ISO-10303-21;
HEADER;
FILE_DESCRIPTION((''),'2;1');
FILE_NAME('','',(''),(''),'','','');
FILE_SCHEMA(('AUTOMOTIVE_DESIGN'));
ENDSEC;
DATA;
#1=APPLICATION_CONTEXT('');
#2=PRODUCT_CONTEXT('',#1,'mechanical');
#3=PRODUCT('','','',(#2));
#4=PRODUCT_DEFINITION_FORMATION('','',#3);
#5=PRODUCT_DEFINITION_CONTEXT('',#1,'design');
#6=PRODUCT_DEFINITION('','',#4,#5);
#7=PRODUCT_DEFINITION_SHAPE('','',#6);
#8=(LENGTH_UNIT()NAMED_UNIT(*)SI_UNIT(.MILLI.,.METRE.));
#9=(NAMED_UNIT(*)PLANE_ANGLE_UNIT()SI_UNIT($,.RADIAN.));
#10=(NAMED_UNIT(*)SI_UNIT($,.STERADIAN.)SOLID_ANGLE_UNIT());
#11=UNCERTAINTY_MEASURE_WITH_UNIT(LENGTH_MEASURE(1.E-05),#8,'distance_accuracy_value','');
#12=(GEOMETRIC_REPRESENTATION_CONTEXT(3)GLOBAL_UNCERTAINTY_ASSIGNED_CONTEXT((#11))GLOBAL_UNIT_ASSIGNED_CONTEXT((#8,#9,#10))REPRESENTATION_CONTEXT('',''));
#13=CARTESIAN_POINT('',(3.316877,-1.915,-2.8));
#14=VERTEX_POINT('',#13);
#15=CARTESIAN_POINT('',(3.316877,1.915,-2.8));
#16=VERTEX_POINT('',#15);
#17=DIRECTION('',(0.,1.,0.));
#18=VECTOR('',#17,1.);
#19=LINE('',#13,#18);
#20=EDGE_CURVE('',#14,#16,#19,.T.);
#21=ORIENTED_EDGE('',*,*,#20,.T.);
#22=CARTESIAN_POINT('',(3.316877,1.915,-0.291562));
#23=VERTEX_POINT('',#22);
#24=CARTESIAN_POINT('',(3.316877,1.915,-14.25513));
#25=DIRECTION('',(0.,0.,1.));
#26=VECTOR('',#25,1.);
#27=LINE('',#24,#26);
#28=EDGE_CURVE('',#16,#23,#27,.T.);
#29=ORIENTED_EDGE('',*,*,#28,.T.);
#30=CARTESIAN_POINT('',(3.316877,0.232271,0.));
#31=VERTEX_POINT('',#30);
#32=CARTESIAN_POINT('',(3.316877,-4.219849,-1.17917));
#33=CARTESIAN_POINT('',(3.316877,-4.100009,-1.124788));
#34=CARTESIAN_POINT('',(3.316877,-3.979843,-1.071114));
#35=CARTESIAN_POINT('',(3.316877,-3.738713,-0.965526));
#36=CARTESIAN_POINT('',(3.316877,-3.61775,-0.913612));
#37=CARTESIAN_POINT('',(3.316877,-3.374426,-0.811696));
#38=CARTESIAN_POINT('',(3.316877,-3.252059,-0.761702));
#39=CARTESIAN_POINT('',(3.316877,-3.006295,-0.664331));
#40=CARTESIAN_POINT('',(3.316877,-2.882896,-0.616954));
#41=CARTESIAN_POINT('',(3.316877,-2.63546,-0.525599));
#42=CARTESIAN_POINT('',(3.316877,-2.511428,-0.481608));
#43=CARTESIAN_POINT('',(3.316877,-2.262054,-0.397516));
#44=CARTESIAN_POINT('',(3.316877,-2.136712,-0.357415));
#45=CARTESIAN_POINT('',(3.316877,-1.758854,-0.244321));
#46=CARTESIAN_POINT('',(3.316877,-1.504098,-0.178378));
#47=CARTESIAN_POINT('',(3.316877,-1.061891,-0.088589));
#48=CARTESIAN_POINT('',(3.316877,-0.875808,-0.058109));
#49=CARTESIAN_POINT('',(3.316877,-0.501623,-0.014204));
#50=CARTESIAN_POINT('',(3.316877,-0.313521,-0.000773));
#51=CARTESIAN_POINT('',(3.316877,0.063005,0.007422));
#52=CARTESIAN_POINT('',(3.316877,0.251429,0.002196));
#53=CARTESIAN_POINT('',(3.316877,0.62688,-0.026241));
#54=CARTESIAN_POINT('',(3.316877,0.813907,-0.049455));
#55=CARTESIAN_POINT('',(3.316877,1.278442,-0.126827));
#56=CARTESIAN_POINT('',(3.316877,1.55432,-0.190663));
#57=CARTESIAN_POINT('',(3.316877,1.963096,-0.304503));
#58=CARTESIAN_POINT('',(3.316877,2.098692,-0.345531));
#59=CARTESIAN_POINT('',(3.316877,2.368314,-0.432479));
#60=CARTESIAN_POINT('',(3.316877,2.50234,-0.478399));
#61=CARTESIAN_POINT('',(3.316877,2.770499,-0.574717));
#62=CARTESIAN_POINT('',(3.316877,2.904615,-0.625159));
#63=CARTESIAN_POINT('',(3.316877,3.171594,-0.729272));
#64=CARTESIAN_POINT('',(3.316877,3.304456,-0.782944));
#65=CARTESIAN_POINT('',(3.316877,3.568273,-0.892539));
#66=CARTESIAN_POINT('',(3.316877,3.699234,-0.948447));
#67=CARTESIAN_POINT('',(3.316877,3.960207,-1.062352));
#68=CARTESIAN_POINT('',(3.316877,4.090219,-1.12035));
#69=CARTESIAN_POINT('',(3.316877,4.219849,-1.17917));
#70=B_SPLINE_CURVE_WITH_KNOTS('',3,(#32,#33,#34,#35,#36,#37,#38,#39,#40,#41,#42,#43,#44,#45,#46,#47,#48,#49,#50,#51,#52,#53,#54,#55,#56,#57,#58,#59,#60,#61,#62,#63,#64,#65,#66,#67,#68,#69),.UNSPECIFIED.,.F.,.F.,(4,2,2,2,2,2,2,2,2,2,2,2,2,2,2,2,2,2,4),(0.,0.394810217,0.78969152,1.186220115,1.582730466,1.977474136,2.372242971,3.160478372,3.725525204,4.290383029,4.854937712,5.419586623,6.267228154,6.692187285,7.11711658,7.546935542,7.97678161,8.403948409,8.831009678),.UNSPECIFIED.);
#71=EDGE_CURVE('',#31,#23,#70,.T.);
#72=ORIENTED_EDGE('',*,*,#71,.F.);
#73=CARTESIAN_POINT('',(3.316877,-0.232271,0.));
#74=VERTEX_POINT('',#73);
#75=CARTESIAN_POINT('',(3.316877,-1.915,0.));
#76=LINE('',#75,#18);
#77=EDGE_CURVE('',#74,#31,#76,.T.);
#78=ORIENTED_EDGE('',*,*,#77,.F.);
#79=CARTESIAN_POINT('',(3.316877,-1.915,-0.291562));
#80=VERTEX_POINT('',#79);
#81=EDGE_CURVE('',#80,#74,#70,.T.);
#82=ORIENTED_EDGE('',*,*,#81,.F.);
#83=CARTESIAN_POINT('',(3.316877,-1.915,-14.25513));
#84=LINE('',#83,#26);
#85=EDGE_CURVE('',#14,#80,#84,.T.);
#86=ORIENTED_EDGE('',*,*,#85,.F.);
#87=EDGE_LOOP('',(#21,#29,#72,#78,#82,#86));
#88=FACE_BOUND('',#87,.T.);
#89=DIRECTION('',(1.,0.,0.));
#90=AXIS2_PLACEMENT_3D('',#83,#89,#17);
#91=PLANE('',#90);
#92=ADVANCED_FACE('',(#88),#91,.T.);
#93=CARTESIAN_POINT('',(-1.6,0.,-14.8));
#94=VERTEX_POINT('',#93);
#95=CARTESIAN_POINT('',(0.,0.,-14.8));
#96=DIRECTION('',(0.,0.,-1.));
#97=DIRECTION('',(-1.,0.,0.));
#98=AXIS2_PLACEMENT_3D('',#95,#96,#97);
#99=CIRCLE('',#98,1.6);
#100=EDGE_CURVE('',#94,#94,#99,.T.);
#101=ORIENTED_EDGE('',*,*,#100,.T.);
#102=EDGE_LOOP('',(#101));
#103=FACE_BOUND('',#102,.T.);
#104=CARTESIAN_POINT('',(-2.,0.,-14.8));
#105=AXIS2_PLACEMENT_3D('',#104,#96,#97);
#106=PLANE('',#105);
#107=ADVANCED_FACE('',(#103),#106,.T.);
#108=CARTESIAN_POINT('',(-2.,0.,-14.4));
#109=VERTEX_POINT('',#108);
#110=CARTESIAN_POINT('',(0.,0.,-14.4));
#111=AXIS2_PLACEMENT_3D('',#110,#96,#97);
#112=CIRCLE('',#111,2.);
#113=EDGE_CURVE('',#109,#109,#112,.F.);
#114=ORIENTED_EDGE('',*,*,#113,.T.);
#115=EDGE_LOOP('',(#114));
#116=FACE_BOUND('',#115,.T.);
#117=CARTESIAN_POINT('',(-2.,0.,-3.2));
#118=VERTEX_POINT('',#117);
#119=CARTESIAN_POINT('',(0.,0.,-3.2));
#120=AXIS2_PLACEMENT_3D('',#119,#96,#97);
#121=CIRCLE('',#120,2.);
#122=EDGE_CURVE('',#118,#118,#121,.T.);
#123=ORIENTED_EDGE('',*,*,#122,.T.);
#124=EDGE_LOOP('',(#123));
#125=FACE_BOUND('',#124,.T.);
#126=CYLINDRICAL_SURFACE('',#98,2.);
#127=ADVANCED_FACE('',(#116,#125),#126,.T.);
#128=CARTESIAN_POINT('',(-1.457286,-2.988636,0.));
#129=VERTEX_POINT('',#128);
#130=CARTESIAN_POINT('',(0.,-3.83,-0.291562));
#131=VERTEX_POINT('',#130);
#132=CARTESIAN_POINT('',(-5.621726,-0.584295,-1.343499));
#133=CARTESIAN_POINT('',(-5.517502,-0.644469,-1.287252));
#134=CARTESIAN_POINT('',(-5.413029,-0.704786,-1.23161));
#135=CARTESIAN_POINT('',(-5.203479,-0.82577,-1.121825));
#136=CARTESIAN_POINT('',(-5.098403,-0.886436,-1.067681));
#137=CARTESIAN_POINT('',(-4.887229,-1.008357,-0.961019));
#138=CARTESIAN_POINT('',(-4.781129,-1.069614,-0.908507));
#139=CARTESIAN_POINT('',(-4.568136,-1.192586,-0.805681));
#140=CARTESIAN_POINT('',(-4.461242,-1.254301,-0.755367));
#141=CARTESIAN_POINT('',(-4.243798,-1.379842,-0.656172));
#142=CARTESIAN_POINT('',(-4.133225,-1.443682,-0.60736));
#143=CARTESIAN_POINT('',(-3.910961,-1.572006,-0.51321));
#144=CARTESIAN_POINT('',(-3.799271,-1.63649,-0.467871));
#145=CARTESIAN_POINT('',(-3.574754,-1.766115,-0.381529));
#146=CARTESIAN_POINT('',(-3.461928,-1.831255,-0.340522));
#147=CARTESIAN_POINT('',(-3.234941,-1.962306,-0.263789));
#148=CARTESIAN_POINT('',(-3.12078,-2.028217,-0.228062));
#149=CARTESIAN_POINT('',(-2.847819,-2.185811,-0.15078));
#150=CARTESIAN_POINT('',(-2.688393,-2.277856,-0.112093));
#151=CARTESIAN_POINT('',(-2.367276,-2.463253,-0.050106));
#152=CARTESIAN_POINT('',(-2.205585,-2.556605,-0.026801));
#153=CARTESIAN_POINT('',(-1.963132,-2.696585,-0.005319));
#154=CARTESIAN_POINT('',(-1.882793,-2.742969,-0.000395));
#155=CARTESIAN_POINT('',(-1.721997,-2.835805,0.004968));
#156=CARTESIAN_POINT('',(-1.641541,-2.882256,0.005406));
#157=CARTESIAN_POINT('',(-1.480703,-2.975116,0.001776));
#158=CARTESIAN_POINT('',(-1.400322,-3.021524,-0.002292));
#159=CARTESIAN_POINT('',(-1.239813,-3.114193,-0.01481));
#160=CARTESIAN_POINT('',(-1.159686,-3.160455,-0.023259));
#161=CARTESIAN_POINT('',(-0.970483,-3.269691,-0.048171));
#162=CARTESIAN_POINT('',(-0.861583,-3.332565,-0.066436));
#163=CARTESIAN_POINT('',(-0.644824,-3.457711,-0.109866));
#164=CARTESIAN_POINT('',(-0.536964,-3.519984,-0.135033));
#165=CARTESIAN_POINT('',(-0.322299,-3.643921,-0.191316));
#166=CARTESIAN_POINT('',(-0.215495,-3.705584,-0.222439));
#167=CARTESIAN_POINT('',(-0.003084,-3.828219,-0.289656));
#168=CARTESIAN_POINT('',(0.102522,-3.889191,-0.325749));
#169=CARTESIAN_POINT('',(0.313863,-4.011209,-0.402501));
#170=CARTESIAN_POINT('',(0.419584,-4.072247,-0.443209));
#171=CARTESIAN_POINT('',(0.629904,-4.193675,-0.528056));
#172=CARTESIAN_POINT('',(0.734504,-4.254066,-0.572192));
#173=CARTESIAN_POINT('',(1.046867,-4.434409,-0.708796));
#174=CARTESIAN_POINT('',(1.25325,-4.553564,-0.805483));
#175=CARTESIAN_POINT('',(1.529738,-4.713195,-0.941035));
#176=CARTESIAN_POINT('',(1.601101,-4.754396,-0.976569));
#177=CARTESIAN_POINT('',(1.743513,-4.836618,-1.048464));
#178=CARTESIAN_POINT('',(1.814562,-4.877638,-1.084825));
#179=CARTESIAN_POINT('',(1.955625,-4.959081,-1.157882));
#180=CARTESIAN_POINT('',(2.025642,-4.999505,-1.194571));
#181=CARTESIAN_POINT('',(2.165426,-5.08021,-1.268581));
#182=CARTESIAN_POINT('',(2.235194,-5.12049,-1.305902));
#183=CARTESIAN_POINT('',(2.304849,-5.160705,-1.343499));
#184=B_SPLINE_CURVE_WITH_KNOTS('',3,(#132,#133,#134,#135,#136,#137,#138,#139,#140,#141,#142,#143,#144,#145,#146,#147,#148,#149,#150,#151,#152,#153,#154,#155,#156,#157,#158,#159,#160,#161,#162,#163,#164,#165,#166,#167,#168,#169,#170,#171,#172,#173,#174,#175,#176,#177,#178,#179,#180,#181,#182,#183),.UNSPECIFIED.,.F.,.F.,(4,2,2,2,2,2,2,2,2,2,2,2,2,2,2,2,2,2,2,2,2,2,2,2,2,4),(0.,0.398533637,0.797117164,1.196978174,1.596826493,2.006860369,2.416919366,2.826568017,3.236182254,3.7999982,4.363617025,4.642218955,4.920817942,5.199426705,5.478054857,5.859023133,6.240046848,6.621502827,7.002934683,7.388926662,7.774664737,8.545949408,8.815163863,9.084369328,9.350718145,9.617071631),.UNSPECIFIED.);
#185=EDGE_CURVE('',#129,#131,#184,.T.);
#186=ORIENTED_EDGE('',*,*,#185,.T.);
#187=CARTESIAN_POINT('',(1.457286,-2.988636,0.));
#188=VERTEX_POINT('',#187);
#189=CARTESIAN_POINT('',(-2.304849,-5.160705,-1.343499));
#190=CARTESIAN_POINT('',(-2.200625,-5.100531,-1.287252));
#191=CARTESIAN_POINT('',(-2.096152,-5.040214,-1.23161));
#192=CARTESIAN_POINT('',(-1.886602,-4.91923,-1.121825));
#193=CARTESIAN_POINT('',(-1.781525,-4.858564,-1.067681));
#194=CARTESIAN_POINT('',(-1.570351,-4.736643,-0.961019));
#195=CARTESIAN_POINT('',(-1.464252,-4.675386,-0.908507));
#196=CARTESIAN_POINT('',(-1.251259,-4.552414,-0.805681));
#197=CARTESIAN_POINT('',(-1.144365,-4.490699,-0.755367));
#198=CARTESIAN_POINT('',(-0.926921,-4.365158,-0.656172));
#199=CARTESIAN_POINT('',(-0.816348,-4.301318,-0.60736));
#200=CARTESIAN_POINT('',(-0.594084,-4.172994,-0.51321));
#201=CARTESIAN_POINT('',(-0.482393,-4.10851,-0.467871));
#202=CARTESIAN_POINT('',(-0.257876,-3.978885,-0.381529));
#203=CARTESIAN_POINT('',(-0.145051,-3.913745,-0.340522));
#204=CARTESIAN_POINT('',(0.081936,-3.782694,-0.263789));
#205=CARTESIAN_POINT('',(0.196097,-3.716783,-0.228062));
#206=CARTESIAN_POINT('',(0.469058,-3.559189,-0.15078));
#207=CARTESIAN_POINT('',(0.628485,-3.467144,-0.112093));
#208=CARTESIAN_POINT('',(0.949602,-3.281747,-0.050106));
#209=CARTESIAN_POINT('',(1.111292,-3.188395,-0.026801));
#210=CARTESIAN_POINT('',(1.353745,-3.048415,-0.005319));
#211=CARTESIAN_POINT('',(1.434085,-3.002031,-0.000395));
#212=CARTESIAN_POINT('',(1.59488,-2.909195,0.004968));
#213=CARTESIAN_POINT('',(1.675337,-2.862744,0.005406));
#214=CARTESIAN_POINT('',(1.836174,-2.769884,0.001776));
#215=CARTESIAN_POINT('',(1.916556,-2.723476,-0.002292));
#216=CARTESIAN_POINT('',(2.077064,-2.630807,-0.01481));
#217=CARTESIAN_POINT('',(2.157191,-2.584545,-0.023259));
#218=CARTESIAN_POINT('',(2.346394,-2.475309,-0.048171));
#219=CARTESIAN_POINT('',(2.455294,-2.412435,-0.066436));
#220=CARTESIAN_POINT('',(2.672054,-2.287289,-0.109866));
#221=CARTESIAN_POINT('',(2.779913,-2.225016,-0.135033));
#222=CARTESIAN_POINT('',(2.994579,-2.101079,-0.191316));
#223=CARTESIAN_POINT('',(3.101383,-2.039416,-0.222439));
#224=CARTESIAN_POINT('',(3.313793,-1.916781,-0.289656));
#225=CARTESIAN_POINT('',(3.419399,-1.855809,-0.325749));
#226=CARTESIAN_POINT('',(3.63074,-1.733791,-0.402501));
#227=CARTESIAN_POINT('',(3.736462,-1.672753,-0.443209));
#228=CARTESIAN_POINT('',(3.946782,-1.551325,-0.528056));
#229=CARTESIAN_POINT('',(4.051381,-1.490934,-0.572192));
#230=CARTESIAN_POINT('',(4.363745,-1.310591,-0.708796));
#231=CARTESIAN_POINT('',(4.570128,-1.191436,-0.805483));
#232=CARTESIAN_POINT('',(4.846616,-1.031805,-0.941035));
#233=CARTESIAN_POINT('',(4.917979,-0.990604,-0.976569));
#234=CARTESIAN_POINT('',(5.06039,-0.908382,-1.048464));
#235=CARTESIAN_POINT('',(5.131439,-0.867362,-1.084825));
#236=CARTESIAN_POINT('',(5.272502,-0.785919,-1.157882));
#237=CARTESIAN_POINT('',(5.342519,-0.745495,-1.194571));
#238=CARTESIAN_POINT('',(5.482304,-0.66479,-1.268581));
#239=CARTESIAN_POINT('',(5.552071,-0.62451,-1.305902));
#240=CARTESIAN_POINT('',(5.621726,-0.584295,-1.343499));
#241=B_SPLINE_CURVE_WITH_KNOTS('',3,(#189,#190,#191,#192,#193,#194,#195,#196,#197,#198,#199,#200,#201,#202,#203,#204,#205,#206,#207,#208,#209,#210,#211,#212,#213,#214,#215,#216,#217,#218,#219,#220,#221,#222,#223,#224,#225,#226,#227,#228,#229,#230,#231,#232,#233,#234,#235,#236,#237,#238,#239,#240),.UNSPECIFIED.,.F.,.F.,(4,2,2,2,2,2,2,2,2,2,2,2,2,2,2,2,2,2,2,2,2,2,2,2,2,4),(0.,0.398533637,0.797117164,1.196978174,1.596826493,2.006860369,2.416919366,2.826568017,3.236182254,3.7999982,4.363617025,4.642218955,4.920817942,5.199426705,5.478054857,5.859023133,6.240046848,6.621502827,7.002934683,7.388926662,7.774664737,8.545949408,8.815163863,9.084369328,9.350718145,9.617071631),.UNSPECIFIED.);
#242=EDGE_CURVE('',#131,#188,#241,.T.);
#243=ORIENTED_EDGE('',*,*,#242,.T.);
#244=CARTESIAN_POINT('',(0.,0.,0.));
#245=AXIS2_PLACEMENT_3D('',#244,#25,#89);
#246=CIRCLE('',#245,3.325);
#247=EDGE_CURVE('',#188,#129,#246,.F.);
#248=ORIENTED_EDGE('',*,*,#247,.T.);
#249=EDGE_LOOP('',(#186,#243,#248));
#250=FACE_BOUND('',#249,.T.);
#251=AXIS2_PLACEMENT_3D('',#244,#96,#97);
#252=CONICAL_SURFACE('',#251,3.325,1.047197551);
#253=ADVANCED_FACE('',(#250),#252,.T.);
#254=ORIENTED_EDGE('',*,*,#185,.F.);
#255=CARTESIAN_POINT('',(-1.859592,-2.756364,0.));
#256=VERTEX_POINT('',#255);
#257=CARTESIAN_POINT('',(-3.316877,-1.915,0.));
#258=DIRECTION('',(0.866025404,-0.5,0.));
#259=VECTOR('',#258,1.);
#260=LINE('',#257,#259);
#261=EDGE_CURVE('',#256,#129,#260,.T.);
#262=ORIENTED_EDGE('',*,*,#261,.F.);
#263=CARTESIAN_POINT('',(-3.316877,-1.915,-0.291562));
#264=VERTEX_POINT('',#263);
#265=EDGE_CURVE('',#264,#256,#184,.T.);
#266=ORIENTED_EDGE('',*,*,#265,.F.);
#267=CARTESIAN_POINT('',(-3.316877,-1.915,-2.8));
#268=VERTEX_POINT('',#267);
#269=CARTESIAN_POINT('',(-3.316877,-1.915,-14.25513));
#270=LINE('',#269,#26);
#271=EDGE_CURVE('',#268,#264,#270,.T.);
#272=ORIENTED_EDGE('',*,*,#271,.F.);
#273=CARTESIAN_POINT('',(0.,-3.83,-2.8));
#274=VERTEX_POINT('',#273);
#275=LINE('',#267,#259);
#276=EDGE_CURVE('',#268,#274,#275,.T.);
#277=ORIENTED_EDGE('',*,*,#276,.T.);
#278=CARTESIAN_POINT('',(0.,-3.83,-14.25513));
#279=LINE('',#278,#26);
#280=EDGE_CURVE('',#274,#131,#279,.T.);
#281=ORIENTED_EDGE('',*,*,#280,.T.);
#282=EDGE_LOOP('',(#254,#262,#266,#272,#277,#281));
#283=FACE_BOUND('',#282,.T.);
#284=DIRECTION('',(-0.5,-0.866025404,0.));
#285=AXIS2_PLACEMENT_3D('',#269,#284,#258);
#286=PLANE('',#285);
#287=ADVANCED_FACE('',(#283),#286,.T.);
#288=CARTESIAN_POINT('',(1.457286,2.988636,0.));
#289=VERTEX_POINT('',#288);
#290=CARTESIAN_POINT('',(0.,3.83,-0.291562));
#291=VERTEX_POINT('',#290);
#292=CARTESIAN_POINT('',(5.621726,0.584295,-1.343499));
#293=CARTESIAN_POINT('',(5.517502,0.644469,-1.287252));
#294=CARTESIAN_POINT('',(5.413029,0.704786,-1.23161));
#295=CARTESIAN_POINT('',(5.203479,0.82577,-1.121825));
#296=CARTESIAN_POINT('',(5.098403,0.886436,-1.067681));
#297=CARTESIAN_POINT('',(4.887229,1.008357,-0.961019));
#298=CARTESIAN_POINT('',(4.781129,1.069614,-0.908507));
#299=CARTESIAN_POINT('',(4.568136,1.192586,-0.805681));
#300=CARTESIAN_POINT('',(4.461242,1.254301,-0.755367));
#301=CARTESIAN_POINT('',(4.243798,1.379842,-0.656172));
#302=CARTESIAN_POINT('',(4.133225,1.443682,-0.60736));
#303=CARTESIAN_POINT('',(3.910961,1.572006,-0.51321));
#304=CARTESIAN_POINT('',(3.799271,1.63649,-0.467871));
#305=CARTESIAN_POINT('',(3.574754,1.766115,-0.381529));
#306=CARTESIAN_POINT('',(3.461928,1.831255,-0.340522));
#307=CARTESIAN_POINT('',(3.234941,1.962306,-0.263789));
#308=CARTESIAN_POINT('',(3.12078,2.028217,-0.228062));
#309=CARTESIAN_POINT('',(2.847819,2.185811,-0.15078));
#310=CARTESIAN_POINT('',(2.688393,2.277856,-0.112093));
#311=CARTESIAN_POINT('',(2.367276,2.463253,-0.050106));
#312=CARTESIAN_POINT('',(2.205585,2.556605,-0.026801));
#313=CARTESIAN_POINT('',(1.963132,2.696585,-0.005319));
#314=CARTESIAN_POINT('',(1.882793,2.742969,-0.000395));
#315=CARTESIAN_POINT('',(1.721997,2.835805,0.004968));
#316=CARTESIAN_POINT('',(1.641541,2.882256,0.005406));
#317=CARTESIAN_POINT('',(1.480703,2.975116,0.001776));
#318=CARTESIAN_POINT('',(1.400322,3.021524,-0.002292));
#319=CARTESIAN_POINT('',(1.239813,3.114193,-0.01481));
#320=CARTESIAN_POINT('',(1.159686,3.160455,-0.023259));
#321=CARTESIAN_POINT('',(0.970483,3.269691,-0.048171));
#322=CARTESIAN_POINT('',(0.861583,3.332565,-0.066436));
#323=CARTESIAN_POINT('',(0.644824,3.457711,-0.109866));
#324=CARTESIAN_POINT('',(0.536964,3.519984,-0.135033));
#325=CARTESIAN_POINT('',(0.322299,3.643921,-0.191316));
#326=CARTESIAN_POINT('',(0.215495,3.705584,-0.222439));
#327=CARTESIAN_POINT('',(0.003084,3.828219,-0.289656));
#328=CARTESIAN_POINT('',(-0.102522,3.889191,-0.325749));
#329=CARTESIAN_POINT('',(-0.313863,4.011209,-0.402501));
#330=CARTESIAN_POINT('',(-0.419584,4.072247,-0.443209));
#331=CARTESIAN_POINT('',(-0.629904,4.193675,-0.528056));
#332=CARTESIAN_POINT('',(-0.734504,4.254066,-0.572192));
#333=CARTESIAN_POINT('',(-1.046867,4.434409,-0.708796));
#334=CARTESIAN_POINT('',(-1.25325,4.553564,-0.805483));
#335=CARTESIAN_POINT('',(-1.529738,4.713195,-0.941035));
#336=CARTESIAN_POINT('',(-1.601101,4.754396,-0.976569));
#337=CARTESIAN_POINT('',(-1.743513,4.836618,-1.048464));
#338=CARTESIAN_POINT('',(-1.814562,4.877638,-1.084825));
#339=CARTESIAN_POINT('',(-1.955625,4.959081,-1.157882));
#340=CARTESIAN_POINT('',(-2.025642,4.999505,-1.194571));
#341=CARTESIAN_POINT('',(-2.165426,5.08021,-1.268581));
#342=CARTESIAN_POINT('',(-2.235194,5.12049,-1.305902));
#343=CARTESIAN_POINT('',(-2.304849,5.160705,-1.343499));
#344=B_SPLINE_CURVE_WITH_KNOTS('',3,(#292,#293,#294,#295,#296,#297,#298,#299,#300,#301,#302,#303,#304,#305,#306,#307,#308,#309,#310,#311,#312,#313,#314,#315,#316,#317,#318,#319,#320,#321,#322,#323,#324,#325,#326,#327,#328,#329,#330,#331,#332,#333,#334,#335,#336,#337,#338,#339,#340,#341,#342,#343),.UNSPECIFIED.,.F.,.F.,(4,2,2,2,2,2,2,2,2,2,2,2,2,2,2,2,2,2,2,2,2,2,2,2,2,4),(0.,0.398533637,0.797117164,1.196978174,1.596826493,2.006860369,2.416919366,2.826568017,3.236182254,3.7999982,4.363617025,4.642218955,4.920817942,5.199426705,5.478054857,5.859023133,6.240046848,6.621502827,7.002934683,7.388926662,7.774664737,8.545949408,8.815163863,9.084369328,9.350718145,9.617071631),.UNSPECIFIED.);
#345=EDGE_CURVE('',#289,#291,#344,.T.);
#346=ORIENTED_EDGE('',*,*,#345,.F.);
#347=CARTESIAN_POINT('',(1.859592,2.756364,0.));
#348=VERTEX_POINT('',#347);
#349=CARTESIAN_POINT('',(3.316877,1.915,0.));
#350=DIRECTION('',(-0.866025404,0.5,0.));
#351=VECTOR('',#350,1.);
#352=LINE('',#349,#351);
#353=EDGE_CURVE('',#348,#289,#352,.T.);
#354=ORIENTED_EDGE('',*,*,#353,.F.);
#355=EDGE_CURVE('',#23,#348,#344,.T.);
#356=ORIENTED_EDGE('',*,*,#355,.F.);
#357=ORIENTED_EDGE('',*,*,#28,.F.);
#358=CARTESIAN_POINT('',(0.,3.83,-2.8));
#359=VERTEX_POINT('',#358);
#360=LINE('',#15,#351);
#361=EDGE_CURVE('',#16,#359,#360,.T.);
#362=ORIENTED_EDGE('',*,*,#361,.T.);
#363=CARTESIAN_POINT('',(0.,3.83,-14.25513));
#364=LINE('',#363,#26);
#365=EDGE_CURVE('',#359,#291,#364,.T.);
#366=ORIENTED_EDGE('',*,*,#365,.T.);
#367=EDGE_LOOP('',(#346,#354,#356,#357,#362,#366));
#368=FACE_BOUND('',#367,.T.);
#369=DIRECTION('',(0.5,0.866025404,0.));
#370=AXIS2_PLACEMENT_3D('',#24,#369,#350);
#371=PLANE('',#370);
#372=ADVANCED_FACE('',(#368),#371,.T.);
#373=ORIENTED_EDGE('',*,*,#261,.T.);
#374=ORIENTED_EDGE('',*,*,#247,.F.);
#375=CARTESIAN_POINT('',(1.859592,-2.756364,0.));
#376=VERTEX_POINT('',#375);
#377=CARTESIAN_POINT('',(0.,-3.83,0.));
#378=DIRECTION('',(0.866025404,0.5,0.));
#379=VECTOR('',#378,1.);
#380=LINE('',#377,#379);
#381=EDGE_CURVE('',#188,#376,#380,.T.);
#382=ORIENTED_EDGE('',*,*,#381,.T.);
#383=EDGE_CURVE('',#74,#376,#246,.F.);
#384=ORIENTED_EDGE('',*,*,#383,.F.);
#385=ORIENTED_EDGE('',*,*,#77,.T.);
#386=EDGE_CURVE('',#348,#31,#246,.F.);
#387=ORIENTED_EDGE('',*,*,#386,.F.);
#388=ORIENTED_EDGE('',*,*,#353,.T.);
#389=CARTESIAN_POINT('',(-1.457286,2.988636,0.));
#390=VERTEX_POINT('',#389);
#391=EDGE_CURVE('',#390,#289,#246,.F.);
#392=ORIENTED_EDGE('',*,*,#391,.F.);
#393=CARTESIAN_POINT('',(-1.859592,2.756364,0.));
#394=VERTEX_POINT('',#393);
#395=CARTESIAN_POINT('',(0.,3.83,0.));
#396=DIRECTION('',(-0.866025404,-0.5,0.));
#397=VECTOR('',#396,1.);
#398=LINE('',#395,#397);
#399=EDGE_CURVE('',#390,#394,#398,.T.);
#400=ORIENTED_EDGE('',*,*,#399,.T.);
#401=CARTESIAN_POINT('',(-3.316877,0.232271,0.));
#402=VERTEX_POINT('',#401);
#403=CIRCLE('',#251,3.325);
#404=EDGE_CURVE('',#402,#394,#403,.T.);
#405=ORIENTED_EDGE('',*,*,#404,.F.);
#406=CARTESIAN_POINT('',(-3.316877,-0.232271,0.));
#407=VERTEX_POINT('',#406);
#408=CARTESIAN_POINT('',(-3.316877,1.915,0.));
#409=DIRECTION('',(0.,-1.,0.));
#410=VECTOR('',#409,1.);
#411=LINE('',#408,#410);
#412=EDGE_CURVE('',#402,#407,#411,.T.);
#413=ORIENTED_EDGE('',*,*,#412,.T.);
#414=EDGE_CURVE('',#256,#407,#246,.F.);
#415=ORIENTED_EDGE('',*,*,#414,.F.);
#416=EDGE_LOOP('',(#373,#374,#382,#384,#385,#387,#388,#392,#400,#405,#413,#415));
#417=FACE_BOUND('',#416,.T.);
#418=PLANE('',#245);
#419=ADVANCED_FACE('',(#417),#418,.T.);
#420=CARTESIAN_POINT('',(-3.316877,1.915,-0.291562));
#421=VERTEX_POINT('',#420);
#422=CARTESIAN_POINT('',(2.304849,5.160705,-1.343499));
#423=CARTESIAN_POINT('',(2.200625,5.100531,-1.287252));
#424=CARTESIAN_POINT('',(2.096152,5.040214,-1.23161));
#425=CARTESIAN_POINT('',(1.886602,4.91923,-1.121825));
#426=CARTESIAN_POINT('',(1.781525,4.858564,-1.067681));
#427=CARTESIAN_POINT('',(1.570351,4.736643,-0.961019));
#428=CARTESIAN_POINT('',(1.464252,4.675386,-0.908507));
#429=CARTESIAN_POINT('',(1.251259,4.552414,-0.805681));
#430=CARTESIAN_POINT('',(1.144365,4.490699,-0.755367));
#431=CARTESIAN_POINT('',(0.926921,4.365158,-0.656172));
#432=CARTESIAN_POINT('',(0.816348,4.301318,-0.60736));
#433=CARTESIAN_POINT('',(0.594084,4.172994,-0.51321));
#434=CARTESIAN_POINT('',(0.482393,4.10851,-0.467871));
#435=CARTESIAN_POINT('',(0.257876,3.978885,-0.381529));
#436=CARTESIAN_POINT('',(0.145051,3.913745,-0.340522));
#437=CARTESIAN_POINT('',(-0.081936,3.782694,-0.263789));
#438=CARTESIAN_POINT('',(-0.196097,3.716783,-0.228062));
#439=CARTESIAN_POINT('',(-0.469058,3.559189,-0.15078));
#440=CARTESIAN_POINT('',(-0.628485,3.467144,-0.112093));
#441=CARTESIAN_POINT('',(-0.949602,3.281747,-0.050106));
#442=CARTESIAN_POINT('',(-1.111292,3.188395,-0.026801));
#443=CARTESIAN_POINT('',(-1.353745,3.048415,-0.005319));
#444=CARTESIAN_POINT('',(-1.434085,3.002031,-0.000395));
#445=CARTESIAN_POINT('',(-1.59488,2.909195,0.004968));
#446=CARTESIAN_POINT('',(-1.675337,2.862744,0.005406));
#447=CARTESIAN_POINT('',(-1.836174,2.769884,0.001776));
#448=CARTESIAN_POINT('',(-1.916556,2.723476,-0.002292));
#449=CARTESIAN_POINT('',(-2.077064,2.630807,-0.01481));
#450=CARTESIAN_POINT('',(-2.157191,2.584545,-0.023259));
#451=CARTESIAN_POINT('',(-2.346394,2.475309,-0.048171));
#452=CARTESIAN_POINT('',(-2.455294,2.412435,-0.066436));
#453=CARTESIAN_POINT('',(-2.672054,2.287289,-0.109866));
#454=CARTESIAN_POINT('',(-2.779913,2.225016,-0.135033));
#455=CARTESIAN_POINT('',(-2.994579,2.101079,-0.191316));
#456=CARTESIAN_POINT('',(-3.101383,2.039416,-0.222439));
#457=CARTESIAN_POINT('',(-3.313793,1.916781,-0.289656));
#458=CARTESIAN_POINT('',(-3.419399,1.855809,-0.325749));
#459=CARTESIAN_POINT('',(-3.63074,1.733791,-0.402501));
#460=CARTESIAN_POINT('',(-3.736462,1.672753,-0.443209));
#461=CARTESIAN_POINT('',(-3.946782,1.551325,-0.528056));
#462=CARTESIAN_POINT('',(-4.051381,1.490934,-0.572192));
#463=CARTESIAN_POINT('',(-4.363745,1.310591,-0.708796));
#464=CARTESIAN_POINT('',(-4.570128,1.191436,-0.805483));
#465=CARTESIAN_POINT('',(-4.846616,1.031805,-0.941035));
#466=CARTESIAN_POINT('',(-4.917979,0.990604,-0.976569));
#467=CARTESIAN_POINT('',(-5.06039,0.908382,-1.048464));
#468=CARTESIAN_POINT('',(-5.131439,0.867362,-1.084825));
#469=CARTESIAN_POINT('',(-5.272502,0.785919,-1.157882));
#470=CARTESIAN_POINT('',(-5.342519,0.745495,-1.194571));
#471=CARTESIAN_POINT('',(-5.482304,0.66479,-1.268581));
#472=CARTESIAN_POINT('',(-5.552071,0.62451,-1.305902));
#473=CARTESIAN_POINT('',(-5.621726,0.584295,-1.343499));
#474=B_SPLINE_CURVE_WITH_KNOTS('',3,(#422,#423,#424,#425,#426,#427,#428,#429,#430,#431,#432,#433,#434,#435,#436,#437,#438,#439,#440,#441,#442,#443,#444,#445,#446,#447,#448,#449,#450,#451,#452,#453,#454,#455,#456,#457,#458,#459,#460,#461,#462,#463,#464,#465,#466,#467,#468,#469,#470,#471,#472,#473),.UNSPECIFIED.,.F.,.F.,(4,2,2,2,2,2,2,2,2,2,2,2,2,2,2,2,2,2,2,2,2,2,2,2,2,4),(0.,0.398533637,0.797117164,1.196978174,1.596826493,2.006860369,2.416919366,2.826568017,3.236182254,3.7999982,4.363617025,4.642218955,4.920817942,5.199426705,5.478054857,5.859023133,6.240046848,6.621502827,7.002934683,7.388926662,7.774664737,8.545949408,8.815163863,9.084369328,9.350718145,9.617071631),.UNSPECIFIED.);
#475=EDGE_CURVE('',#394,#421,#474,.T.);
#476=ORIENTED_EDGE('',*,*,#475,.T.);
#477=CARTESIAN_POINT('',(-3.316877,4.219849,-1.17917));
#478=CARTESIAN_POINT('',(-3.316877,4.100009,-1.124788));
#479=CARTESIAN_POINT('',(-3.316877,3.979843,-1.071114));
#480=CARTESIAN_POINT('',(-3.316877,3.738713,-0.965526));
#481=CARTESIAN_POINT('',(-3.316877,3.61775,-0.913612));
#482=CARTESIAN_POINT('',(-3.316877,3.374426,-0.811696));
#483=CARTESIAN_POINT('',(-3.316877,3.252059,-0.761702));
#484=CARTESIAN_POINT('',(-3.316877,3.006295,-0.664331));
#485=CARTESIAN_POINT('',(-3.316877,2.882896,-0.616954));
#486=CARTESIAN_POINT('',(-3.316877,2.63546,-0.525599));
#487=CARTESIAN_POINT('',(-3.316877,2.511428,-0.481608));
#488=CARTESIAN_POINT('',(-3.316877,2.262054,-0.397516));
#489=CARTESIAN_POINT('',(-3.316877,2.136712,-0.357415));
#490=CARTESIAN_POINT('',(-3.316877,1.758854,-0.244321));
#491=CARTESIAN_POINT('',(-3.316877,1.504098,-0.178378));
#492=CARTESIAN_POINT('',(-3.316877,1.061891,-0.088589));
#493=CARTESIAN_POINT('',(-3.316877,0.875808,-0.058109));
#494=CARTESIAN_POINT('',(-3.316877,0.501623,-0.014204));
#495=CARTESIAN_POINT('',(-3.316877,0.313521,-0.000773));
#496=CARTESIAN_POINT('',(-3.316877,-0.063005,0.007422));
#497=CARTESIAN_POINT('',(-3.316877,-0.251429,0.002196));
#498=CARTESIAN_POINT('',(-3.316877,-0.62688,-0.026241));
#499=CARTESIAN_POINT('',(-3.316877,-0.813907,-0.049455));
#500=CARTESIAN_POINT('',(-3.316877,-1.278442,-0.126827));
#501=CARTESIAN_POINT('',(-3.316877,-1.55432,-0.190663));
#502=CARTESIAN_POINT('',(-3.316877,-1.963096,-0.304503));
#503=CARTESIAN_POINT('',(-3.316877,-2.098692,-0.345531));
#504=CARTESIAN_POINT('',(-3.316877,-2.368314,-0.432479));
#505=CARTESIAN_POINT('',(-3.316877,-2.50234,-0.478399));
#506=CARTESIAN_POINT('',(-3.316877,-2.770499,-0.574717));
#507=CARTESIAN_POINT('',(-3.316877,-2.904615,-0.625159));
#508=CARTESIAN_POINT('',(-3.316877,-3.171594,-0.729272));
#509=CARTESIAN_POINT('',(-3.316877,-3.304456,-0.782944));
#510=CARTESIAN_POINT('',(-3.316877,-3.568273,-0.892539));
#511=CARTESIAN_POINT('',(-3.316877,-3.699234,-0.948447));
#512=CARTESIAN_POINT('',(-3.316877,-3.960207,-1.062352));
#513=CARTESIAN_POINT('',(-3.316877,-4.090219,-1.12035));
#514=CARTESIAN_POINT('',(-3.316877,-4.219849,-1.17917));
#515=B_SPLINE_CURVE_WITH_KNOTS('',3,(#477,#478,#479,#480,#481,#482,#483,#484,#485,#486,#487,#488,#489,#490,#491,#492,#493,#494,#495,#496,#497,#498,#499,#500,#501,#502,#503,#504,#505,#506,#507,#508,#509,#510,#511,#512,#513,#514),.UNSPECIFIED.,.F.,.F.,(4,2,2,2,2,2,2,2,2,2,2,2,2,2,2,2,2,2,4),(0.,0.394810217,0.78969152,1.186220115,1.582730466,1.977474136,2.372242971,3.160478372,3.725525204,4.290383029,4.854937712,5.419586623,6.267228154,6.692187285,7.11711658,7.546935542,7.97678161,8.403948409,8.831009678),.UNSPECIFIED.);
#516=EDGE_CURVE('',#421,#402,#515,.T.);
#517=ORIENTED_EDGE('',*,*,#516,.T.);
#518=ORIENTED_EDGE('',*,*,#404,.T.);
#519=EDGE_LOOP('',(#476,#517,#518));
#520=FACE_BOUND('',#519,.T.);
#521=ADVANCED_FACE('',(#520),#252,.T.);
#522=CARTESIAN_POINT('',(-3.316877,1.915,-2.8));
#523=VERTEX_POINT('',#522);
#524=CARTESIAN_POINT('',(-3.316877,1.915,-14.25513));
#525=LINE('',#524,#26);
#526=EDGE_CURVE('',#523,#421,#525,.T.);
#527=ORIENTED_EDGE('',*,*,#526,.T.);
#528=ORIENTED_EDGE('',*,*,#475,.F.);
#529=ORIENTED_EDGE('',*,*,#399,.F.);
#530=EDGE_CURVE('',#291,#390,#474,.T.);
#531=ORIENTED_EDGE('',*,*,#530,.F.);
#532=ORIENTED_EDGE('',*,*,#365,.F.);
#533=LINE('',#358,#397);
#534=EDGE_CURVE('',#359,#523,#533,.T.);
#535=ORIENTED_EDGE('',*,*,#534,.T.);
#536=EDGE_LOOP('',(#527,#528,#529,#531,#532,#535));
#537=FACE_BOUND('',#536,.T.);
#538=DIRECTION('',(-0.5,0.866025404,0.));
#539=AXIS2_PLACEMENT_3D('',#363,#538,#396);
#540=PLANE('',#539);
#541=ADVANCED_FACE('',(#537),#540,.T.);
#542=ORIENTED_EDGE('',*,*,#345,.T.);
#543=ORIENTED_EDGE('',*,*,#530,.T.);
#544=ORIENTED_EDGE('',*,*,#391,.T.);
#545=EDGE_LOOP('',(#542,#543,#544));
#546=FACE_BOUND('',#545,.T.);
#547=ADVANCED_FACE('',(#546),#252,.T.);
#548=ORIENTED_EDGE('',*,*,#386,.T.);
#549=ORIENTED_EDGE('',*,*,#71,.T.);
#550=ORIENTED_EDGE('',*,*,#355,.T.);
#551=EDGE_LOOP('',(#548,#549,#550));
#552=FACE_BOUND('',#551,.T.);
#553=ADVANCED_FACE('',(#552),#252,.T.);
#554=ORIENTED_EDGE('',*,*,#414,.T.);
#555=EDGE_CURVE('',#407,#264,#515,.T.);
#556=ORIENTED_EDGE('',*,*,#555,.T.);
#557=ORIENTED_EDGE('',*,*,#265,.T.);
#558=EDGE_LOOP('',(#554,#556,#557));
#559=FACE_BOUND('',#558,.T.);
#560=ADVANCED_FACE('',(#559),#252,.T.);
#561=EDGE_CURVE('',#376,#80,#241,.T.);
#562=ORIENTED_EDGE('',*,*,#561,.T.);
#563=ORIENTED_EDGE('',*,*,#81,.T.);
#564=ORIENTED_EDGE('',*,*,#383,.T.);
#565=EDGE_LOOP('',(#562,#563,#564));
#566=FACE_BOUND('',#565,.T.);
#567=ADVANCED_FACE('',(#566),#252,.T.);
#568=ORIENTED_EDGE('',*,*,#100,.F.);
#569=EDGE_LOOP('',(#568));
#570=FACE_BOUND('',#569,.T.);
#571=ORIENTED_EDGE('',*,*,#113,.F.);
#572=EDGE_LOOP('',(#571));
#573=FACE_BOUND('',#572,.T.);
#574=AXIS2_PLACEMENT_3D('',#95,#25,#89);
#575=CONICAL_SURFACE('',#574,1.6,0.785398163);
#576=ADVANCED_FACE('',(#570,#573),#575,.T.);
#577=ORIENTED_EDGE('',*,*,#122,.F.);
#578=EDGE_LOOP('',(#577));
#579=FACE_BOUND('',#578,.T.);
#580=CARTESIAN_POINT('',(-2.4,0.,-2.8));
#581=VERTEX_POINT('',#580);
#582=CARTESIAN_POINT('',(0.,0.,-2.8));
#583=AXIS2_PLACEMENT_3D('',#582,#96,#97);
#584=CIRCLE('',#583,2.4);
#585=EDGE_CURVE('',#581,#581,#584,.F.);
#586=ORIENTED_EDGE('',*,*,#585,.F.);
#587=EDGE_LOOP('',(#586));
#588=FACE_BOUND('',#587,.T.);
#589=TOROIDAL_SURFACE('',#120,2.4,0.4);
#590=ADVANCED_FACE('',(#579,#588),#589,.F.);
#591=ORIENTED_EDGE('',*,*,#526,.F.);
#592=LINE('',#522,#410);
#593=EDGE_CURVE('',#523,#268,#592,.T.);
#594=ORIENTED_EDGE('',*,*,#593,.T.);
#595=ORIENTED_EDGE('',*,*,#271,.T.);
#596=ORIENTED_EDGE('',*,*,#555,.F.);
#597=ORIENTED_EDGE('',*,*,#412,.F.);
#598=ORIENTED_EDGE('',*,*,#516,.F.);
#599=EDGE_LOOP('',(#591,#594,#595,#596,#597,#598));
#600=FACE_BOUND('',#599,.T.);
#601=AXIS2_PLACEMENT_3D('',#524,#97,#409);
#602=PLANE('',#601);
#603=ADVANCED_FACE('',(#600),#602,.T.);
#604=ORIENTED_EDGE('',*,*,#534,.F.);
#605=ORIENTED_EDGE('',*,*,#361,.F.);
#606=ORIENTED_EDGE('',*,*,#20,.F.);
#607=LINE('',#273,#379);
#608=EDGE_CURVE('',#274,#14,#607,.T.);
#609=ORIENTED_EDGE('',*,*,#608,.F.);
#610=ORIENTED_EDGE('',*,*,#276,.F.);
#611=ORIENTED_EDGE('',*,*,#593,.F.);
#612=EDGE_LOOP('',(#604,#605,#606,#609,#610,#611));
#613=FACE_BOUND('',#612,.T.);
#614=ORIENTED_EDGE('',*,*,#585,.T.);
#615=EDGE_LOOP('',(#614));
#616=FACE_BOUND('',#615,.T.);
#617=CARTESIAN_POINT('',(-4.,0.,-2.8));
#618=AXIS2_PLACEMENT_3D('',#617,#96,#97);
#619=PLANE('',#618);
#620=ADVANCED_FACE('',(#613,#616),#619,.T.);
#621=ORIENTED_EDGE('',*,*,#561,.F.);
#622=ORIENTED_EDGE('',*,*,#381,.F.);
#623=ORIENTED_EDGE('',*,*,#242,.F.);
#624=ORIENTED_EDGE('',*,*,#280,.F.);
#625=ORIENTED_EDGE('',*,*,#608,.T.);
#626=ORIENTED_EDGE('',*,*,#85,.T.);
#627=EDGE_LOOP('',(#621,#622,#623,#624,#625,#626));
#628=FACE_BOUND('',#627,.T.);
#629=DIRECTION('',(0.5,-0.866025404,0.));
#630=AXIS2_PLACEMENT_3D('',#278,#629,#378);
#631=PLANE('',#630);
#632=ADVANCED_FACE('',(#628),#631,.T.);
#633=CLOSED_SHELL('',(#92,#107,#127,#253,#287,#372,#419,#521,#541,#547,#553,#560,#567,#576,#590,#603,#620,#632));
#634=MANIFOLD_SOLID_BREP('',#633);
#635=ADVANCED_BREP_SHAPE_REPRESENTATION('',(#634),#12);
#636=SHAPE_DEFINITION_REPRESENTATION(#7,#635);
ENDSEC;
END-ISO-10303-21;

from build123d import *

# Parameters (mm, degrees)
SKETCH_2_OUTSIDE_W  = 13.726
SKETCH_2_OUTSIDE_H  = 13.726
CUT_EXTRUDE_1_DEPTH = 2.8
CHAMFER_1_SIZE      = 0.4
FILLET_1_R          = 0.4


with BuildPart() as part:
    # Эскиз1 → Повернуть1 (revolve)
    with BuildSketch(Plane(origin=(0, 0, 0), x_dir=(1, 0, 0), z_dir=(0, 1, 0))):
        Polygon((0, 0), (-4, 0), (-4, 2.8), (-2, 2.8), (-2, 14.8), (0, 14.8), align=None)
    revolve(axis=Axis((0, 0, -14.8), (0, 0, 1)))

    # Эскиз2 outside → Вырез-Вытянуть1 (cut)
    with BuildSketch(Plane.XY):
        Rectangle(SKETCH_2_OUTSIDE_W, SKETCH_2_OUTSIDE_H)
        Polygon((0, 3.83), (-3.316877296, 1.915), (-3.316877296, -1.915), (0, -3.83), (3.316877296, -1.915), (3.316877296, 1.915), align=None, mode=Mode.SUBTRACT)
    extrude(amount=-CUT_EXTRUDE_1_DEPTH, mode=Mode.SUBTRACT)

    # Эскиз3 → Вырез-Повернуть1 (revolve, cut)
    with BuildSketch(Plane(origin=(0, 0, 0), x_dir=(0, 0, -1), z_dir=(1, 0, 0))):
        Polygon((0, 3.83), (0.291561886, 3.83), (0, 3.325), align=None)
    revolve(axis=Axis((0, 0, 0), (0, 0, 1)), mode=Mode.SUBTRACT)

    # Фаска1
    chamfer_1_edges = [part.edges().sort_by_distance(p)[0] for p in [
        (2, 0, -14.8),
    ]]
    chamfer(chamfer_1_edges, length=CHAMFER_1_SIZE)

    # Скругление1
    fillet_1_edges = [part.edges().sort_by_distance(p)[0] for p in [
        (2, 0, -2.8),
    ]]
    fillet(fillet_1_edges, radius=FILLET_1_R)


solid = part.part
